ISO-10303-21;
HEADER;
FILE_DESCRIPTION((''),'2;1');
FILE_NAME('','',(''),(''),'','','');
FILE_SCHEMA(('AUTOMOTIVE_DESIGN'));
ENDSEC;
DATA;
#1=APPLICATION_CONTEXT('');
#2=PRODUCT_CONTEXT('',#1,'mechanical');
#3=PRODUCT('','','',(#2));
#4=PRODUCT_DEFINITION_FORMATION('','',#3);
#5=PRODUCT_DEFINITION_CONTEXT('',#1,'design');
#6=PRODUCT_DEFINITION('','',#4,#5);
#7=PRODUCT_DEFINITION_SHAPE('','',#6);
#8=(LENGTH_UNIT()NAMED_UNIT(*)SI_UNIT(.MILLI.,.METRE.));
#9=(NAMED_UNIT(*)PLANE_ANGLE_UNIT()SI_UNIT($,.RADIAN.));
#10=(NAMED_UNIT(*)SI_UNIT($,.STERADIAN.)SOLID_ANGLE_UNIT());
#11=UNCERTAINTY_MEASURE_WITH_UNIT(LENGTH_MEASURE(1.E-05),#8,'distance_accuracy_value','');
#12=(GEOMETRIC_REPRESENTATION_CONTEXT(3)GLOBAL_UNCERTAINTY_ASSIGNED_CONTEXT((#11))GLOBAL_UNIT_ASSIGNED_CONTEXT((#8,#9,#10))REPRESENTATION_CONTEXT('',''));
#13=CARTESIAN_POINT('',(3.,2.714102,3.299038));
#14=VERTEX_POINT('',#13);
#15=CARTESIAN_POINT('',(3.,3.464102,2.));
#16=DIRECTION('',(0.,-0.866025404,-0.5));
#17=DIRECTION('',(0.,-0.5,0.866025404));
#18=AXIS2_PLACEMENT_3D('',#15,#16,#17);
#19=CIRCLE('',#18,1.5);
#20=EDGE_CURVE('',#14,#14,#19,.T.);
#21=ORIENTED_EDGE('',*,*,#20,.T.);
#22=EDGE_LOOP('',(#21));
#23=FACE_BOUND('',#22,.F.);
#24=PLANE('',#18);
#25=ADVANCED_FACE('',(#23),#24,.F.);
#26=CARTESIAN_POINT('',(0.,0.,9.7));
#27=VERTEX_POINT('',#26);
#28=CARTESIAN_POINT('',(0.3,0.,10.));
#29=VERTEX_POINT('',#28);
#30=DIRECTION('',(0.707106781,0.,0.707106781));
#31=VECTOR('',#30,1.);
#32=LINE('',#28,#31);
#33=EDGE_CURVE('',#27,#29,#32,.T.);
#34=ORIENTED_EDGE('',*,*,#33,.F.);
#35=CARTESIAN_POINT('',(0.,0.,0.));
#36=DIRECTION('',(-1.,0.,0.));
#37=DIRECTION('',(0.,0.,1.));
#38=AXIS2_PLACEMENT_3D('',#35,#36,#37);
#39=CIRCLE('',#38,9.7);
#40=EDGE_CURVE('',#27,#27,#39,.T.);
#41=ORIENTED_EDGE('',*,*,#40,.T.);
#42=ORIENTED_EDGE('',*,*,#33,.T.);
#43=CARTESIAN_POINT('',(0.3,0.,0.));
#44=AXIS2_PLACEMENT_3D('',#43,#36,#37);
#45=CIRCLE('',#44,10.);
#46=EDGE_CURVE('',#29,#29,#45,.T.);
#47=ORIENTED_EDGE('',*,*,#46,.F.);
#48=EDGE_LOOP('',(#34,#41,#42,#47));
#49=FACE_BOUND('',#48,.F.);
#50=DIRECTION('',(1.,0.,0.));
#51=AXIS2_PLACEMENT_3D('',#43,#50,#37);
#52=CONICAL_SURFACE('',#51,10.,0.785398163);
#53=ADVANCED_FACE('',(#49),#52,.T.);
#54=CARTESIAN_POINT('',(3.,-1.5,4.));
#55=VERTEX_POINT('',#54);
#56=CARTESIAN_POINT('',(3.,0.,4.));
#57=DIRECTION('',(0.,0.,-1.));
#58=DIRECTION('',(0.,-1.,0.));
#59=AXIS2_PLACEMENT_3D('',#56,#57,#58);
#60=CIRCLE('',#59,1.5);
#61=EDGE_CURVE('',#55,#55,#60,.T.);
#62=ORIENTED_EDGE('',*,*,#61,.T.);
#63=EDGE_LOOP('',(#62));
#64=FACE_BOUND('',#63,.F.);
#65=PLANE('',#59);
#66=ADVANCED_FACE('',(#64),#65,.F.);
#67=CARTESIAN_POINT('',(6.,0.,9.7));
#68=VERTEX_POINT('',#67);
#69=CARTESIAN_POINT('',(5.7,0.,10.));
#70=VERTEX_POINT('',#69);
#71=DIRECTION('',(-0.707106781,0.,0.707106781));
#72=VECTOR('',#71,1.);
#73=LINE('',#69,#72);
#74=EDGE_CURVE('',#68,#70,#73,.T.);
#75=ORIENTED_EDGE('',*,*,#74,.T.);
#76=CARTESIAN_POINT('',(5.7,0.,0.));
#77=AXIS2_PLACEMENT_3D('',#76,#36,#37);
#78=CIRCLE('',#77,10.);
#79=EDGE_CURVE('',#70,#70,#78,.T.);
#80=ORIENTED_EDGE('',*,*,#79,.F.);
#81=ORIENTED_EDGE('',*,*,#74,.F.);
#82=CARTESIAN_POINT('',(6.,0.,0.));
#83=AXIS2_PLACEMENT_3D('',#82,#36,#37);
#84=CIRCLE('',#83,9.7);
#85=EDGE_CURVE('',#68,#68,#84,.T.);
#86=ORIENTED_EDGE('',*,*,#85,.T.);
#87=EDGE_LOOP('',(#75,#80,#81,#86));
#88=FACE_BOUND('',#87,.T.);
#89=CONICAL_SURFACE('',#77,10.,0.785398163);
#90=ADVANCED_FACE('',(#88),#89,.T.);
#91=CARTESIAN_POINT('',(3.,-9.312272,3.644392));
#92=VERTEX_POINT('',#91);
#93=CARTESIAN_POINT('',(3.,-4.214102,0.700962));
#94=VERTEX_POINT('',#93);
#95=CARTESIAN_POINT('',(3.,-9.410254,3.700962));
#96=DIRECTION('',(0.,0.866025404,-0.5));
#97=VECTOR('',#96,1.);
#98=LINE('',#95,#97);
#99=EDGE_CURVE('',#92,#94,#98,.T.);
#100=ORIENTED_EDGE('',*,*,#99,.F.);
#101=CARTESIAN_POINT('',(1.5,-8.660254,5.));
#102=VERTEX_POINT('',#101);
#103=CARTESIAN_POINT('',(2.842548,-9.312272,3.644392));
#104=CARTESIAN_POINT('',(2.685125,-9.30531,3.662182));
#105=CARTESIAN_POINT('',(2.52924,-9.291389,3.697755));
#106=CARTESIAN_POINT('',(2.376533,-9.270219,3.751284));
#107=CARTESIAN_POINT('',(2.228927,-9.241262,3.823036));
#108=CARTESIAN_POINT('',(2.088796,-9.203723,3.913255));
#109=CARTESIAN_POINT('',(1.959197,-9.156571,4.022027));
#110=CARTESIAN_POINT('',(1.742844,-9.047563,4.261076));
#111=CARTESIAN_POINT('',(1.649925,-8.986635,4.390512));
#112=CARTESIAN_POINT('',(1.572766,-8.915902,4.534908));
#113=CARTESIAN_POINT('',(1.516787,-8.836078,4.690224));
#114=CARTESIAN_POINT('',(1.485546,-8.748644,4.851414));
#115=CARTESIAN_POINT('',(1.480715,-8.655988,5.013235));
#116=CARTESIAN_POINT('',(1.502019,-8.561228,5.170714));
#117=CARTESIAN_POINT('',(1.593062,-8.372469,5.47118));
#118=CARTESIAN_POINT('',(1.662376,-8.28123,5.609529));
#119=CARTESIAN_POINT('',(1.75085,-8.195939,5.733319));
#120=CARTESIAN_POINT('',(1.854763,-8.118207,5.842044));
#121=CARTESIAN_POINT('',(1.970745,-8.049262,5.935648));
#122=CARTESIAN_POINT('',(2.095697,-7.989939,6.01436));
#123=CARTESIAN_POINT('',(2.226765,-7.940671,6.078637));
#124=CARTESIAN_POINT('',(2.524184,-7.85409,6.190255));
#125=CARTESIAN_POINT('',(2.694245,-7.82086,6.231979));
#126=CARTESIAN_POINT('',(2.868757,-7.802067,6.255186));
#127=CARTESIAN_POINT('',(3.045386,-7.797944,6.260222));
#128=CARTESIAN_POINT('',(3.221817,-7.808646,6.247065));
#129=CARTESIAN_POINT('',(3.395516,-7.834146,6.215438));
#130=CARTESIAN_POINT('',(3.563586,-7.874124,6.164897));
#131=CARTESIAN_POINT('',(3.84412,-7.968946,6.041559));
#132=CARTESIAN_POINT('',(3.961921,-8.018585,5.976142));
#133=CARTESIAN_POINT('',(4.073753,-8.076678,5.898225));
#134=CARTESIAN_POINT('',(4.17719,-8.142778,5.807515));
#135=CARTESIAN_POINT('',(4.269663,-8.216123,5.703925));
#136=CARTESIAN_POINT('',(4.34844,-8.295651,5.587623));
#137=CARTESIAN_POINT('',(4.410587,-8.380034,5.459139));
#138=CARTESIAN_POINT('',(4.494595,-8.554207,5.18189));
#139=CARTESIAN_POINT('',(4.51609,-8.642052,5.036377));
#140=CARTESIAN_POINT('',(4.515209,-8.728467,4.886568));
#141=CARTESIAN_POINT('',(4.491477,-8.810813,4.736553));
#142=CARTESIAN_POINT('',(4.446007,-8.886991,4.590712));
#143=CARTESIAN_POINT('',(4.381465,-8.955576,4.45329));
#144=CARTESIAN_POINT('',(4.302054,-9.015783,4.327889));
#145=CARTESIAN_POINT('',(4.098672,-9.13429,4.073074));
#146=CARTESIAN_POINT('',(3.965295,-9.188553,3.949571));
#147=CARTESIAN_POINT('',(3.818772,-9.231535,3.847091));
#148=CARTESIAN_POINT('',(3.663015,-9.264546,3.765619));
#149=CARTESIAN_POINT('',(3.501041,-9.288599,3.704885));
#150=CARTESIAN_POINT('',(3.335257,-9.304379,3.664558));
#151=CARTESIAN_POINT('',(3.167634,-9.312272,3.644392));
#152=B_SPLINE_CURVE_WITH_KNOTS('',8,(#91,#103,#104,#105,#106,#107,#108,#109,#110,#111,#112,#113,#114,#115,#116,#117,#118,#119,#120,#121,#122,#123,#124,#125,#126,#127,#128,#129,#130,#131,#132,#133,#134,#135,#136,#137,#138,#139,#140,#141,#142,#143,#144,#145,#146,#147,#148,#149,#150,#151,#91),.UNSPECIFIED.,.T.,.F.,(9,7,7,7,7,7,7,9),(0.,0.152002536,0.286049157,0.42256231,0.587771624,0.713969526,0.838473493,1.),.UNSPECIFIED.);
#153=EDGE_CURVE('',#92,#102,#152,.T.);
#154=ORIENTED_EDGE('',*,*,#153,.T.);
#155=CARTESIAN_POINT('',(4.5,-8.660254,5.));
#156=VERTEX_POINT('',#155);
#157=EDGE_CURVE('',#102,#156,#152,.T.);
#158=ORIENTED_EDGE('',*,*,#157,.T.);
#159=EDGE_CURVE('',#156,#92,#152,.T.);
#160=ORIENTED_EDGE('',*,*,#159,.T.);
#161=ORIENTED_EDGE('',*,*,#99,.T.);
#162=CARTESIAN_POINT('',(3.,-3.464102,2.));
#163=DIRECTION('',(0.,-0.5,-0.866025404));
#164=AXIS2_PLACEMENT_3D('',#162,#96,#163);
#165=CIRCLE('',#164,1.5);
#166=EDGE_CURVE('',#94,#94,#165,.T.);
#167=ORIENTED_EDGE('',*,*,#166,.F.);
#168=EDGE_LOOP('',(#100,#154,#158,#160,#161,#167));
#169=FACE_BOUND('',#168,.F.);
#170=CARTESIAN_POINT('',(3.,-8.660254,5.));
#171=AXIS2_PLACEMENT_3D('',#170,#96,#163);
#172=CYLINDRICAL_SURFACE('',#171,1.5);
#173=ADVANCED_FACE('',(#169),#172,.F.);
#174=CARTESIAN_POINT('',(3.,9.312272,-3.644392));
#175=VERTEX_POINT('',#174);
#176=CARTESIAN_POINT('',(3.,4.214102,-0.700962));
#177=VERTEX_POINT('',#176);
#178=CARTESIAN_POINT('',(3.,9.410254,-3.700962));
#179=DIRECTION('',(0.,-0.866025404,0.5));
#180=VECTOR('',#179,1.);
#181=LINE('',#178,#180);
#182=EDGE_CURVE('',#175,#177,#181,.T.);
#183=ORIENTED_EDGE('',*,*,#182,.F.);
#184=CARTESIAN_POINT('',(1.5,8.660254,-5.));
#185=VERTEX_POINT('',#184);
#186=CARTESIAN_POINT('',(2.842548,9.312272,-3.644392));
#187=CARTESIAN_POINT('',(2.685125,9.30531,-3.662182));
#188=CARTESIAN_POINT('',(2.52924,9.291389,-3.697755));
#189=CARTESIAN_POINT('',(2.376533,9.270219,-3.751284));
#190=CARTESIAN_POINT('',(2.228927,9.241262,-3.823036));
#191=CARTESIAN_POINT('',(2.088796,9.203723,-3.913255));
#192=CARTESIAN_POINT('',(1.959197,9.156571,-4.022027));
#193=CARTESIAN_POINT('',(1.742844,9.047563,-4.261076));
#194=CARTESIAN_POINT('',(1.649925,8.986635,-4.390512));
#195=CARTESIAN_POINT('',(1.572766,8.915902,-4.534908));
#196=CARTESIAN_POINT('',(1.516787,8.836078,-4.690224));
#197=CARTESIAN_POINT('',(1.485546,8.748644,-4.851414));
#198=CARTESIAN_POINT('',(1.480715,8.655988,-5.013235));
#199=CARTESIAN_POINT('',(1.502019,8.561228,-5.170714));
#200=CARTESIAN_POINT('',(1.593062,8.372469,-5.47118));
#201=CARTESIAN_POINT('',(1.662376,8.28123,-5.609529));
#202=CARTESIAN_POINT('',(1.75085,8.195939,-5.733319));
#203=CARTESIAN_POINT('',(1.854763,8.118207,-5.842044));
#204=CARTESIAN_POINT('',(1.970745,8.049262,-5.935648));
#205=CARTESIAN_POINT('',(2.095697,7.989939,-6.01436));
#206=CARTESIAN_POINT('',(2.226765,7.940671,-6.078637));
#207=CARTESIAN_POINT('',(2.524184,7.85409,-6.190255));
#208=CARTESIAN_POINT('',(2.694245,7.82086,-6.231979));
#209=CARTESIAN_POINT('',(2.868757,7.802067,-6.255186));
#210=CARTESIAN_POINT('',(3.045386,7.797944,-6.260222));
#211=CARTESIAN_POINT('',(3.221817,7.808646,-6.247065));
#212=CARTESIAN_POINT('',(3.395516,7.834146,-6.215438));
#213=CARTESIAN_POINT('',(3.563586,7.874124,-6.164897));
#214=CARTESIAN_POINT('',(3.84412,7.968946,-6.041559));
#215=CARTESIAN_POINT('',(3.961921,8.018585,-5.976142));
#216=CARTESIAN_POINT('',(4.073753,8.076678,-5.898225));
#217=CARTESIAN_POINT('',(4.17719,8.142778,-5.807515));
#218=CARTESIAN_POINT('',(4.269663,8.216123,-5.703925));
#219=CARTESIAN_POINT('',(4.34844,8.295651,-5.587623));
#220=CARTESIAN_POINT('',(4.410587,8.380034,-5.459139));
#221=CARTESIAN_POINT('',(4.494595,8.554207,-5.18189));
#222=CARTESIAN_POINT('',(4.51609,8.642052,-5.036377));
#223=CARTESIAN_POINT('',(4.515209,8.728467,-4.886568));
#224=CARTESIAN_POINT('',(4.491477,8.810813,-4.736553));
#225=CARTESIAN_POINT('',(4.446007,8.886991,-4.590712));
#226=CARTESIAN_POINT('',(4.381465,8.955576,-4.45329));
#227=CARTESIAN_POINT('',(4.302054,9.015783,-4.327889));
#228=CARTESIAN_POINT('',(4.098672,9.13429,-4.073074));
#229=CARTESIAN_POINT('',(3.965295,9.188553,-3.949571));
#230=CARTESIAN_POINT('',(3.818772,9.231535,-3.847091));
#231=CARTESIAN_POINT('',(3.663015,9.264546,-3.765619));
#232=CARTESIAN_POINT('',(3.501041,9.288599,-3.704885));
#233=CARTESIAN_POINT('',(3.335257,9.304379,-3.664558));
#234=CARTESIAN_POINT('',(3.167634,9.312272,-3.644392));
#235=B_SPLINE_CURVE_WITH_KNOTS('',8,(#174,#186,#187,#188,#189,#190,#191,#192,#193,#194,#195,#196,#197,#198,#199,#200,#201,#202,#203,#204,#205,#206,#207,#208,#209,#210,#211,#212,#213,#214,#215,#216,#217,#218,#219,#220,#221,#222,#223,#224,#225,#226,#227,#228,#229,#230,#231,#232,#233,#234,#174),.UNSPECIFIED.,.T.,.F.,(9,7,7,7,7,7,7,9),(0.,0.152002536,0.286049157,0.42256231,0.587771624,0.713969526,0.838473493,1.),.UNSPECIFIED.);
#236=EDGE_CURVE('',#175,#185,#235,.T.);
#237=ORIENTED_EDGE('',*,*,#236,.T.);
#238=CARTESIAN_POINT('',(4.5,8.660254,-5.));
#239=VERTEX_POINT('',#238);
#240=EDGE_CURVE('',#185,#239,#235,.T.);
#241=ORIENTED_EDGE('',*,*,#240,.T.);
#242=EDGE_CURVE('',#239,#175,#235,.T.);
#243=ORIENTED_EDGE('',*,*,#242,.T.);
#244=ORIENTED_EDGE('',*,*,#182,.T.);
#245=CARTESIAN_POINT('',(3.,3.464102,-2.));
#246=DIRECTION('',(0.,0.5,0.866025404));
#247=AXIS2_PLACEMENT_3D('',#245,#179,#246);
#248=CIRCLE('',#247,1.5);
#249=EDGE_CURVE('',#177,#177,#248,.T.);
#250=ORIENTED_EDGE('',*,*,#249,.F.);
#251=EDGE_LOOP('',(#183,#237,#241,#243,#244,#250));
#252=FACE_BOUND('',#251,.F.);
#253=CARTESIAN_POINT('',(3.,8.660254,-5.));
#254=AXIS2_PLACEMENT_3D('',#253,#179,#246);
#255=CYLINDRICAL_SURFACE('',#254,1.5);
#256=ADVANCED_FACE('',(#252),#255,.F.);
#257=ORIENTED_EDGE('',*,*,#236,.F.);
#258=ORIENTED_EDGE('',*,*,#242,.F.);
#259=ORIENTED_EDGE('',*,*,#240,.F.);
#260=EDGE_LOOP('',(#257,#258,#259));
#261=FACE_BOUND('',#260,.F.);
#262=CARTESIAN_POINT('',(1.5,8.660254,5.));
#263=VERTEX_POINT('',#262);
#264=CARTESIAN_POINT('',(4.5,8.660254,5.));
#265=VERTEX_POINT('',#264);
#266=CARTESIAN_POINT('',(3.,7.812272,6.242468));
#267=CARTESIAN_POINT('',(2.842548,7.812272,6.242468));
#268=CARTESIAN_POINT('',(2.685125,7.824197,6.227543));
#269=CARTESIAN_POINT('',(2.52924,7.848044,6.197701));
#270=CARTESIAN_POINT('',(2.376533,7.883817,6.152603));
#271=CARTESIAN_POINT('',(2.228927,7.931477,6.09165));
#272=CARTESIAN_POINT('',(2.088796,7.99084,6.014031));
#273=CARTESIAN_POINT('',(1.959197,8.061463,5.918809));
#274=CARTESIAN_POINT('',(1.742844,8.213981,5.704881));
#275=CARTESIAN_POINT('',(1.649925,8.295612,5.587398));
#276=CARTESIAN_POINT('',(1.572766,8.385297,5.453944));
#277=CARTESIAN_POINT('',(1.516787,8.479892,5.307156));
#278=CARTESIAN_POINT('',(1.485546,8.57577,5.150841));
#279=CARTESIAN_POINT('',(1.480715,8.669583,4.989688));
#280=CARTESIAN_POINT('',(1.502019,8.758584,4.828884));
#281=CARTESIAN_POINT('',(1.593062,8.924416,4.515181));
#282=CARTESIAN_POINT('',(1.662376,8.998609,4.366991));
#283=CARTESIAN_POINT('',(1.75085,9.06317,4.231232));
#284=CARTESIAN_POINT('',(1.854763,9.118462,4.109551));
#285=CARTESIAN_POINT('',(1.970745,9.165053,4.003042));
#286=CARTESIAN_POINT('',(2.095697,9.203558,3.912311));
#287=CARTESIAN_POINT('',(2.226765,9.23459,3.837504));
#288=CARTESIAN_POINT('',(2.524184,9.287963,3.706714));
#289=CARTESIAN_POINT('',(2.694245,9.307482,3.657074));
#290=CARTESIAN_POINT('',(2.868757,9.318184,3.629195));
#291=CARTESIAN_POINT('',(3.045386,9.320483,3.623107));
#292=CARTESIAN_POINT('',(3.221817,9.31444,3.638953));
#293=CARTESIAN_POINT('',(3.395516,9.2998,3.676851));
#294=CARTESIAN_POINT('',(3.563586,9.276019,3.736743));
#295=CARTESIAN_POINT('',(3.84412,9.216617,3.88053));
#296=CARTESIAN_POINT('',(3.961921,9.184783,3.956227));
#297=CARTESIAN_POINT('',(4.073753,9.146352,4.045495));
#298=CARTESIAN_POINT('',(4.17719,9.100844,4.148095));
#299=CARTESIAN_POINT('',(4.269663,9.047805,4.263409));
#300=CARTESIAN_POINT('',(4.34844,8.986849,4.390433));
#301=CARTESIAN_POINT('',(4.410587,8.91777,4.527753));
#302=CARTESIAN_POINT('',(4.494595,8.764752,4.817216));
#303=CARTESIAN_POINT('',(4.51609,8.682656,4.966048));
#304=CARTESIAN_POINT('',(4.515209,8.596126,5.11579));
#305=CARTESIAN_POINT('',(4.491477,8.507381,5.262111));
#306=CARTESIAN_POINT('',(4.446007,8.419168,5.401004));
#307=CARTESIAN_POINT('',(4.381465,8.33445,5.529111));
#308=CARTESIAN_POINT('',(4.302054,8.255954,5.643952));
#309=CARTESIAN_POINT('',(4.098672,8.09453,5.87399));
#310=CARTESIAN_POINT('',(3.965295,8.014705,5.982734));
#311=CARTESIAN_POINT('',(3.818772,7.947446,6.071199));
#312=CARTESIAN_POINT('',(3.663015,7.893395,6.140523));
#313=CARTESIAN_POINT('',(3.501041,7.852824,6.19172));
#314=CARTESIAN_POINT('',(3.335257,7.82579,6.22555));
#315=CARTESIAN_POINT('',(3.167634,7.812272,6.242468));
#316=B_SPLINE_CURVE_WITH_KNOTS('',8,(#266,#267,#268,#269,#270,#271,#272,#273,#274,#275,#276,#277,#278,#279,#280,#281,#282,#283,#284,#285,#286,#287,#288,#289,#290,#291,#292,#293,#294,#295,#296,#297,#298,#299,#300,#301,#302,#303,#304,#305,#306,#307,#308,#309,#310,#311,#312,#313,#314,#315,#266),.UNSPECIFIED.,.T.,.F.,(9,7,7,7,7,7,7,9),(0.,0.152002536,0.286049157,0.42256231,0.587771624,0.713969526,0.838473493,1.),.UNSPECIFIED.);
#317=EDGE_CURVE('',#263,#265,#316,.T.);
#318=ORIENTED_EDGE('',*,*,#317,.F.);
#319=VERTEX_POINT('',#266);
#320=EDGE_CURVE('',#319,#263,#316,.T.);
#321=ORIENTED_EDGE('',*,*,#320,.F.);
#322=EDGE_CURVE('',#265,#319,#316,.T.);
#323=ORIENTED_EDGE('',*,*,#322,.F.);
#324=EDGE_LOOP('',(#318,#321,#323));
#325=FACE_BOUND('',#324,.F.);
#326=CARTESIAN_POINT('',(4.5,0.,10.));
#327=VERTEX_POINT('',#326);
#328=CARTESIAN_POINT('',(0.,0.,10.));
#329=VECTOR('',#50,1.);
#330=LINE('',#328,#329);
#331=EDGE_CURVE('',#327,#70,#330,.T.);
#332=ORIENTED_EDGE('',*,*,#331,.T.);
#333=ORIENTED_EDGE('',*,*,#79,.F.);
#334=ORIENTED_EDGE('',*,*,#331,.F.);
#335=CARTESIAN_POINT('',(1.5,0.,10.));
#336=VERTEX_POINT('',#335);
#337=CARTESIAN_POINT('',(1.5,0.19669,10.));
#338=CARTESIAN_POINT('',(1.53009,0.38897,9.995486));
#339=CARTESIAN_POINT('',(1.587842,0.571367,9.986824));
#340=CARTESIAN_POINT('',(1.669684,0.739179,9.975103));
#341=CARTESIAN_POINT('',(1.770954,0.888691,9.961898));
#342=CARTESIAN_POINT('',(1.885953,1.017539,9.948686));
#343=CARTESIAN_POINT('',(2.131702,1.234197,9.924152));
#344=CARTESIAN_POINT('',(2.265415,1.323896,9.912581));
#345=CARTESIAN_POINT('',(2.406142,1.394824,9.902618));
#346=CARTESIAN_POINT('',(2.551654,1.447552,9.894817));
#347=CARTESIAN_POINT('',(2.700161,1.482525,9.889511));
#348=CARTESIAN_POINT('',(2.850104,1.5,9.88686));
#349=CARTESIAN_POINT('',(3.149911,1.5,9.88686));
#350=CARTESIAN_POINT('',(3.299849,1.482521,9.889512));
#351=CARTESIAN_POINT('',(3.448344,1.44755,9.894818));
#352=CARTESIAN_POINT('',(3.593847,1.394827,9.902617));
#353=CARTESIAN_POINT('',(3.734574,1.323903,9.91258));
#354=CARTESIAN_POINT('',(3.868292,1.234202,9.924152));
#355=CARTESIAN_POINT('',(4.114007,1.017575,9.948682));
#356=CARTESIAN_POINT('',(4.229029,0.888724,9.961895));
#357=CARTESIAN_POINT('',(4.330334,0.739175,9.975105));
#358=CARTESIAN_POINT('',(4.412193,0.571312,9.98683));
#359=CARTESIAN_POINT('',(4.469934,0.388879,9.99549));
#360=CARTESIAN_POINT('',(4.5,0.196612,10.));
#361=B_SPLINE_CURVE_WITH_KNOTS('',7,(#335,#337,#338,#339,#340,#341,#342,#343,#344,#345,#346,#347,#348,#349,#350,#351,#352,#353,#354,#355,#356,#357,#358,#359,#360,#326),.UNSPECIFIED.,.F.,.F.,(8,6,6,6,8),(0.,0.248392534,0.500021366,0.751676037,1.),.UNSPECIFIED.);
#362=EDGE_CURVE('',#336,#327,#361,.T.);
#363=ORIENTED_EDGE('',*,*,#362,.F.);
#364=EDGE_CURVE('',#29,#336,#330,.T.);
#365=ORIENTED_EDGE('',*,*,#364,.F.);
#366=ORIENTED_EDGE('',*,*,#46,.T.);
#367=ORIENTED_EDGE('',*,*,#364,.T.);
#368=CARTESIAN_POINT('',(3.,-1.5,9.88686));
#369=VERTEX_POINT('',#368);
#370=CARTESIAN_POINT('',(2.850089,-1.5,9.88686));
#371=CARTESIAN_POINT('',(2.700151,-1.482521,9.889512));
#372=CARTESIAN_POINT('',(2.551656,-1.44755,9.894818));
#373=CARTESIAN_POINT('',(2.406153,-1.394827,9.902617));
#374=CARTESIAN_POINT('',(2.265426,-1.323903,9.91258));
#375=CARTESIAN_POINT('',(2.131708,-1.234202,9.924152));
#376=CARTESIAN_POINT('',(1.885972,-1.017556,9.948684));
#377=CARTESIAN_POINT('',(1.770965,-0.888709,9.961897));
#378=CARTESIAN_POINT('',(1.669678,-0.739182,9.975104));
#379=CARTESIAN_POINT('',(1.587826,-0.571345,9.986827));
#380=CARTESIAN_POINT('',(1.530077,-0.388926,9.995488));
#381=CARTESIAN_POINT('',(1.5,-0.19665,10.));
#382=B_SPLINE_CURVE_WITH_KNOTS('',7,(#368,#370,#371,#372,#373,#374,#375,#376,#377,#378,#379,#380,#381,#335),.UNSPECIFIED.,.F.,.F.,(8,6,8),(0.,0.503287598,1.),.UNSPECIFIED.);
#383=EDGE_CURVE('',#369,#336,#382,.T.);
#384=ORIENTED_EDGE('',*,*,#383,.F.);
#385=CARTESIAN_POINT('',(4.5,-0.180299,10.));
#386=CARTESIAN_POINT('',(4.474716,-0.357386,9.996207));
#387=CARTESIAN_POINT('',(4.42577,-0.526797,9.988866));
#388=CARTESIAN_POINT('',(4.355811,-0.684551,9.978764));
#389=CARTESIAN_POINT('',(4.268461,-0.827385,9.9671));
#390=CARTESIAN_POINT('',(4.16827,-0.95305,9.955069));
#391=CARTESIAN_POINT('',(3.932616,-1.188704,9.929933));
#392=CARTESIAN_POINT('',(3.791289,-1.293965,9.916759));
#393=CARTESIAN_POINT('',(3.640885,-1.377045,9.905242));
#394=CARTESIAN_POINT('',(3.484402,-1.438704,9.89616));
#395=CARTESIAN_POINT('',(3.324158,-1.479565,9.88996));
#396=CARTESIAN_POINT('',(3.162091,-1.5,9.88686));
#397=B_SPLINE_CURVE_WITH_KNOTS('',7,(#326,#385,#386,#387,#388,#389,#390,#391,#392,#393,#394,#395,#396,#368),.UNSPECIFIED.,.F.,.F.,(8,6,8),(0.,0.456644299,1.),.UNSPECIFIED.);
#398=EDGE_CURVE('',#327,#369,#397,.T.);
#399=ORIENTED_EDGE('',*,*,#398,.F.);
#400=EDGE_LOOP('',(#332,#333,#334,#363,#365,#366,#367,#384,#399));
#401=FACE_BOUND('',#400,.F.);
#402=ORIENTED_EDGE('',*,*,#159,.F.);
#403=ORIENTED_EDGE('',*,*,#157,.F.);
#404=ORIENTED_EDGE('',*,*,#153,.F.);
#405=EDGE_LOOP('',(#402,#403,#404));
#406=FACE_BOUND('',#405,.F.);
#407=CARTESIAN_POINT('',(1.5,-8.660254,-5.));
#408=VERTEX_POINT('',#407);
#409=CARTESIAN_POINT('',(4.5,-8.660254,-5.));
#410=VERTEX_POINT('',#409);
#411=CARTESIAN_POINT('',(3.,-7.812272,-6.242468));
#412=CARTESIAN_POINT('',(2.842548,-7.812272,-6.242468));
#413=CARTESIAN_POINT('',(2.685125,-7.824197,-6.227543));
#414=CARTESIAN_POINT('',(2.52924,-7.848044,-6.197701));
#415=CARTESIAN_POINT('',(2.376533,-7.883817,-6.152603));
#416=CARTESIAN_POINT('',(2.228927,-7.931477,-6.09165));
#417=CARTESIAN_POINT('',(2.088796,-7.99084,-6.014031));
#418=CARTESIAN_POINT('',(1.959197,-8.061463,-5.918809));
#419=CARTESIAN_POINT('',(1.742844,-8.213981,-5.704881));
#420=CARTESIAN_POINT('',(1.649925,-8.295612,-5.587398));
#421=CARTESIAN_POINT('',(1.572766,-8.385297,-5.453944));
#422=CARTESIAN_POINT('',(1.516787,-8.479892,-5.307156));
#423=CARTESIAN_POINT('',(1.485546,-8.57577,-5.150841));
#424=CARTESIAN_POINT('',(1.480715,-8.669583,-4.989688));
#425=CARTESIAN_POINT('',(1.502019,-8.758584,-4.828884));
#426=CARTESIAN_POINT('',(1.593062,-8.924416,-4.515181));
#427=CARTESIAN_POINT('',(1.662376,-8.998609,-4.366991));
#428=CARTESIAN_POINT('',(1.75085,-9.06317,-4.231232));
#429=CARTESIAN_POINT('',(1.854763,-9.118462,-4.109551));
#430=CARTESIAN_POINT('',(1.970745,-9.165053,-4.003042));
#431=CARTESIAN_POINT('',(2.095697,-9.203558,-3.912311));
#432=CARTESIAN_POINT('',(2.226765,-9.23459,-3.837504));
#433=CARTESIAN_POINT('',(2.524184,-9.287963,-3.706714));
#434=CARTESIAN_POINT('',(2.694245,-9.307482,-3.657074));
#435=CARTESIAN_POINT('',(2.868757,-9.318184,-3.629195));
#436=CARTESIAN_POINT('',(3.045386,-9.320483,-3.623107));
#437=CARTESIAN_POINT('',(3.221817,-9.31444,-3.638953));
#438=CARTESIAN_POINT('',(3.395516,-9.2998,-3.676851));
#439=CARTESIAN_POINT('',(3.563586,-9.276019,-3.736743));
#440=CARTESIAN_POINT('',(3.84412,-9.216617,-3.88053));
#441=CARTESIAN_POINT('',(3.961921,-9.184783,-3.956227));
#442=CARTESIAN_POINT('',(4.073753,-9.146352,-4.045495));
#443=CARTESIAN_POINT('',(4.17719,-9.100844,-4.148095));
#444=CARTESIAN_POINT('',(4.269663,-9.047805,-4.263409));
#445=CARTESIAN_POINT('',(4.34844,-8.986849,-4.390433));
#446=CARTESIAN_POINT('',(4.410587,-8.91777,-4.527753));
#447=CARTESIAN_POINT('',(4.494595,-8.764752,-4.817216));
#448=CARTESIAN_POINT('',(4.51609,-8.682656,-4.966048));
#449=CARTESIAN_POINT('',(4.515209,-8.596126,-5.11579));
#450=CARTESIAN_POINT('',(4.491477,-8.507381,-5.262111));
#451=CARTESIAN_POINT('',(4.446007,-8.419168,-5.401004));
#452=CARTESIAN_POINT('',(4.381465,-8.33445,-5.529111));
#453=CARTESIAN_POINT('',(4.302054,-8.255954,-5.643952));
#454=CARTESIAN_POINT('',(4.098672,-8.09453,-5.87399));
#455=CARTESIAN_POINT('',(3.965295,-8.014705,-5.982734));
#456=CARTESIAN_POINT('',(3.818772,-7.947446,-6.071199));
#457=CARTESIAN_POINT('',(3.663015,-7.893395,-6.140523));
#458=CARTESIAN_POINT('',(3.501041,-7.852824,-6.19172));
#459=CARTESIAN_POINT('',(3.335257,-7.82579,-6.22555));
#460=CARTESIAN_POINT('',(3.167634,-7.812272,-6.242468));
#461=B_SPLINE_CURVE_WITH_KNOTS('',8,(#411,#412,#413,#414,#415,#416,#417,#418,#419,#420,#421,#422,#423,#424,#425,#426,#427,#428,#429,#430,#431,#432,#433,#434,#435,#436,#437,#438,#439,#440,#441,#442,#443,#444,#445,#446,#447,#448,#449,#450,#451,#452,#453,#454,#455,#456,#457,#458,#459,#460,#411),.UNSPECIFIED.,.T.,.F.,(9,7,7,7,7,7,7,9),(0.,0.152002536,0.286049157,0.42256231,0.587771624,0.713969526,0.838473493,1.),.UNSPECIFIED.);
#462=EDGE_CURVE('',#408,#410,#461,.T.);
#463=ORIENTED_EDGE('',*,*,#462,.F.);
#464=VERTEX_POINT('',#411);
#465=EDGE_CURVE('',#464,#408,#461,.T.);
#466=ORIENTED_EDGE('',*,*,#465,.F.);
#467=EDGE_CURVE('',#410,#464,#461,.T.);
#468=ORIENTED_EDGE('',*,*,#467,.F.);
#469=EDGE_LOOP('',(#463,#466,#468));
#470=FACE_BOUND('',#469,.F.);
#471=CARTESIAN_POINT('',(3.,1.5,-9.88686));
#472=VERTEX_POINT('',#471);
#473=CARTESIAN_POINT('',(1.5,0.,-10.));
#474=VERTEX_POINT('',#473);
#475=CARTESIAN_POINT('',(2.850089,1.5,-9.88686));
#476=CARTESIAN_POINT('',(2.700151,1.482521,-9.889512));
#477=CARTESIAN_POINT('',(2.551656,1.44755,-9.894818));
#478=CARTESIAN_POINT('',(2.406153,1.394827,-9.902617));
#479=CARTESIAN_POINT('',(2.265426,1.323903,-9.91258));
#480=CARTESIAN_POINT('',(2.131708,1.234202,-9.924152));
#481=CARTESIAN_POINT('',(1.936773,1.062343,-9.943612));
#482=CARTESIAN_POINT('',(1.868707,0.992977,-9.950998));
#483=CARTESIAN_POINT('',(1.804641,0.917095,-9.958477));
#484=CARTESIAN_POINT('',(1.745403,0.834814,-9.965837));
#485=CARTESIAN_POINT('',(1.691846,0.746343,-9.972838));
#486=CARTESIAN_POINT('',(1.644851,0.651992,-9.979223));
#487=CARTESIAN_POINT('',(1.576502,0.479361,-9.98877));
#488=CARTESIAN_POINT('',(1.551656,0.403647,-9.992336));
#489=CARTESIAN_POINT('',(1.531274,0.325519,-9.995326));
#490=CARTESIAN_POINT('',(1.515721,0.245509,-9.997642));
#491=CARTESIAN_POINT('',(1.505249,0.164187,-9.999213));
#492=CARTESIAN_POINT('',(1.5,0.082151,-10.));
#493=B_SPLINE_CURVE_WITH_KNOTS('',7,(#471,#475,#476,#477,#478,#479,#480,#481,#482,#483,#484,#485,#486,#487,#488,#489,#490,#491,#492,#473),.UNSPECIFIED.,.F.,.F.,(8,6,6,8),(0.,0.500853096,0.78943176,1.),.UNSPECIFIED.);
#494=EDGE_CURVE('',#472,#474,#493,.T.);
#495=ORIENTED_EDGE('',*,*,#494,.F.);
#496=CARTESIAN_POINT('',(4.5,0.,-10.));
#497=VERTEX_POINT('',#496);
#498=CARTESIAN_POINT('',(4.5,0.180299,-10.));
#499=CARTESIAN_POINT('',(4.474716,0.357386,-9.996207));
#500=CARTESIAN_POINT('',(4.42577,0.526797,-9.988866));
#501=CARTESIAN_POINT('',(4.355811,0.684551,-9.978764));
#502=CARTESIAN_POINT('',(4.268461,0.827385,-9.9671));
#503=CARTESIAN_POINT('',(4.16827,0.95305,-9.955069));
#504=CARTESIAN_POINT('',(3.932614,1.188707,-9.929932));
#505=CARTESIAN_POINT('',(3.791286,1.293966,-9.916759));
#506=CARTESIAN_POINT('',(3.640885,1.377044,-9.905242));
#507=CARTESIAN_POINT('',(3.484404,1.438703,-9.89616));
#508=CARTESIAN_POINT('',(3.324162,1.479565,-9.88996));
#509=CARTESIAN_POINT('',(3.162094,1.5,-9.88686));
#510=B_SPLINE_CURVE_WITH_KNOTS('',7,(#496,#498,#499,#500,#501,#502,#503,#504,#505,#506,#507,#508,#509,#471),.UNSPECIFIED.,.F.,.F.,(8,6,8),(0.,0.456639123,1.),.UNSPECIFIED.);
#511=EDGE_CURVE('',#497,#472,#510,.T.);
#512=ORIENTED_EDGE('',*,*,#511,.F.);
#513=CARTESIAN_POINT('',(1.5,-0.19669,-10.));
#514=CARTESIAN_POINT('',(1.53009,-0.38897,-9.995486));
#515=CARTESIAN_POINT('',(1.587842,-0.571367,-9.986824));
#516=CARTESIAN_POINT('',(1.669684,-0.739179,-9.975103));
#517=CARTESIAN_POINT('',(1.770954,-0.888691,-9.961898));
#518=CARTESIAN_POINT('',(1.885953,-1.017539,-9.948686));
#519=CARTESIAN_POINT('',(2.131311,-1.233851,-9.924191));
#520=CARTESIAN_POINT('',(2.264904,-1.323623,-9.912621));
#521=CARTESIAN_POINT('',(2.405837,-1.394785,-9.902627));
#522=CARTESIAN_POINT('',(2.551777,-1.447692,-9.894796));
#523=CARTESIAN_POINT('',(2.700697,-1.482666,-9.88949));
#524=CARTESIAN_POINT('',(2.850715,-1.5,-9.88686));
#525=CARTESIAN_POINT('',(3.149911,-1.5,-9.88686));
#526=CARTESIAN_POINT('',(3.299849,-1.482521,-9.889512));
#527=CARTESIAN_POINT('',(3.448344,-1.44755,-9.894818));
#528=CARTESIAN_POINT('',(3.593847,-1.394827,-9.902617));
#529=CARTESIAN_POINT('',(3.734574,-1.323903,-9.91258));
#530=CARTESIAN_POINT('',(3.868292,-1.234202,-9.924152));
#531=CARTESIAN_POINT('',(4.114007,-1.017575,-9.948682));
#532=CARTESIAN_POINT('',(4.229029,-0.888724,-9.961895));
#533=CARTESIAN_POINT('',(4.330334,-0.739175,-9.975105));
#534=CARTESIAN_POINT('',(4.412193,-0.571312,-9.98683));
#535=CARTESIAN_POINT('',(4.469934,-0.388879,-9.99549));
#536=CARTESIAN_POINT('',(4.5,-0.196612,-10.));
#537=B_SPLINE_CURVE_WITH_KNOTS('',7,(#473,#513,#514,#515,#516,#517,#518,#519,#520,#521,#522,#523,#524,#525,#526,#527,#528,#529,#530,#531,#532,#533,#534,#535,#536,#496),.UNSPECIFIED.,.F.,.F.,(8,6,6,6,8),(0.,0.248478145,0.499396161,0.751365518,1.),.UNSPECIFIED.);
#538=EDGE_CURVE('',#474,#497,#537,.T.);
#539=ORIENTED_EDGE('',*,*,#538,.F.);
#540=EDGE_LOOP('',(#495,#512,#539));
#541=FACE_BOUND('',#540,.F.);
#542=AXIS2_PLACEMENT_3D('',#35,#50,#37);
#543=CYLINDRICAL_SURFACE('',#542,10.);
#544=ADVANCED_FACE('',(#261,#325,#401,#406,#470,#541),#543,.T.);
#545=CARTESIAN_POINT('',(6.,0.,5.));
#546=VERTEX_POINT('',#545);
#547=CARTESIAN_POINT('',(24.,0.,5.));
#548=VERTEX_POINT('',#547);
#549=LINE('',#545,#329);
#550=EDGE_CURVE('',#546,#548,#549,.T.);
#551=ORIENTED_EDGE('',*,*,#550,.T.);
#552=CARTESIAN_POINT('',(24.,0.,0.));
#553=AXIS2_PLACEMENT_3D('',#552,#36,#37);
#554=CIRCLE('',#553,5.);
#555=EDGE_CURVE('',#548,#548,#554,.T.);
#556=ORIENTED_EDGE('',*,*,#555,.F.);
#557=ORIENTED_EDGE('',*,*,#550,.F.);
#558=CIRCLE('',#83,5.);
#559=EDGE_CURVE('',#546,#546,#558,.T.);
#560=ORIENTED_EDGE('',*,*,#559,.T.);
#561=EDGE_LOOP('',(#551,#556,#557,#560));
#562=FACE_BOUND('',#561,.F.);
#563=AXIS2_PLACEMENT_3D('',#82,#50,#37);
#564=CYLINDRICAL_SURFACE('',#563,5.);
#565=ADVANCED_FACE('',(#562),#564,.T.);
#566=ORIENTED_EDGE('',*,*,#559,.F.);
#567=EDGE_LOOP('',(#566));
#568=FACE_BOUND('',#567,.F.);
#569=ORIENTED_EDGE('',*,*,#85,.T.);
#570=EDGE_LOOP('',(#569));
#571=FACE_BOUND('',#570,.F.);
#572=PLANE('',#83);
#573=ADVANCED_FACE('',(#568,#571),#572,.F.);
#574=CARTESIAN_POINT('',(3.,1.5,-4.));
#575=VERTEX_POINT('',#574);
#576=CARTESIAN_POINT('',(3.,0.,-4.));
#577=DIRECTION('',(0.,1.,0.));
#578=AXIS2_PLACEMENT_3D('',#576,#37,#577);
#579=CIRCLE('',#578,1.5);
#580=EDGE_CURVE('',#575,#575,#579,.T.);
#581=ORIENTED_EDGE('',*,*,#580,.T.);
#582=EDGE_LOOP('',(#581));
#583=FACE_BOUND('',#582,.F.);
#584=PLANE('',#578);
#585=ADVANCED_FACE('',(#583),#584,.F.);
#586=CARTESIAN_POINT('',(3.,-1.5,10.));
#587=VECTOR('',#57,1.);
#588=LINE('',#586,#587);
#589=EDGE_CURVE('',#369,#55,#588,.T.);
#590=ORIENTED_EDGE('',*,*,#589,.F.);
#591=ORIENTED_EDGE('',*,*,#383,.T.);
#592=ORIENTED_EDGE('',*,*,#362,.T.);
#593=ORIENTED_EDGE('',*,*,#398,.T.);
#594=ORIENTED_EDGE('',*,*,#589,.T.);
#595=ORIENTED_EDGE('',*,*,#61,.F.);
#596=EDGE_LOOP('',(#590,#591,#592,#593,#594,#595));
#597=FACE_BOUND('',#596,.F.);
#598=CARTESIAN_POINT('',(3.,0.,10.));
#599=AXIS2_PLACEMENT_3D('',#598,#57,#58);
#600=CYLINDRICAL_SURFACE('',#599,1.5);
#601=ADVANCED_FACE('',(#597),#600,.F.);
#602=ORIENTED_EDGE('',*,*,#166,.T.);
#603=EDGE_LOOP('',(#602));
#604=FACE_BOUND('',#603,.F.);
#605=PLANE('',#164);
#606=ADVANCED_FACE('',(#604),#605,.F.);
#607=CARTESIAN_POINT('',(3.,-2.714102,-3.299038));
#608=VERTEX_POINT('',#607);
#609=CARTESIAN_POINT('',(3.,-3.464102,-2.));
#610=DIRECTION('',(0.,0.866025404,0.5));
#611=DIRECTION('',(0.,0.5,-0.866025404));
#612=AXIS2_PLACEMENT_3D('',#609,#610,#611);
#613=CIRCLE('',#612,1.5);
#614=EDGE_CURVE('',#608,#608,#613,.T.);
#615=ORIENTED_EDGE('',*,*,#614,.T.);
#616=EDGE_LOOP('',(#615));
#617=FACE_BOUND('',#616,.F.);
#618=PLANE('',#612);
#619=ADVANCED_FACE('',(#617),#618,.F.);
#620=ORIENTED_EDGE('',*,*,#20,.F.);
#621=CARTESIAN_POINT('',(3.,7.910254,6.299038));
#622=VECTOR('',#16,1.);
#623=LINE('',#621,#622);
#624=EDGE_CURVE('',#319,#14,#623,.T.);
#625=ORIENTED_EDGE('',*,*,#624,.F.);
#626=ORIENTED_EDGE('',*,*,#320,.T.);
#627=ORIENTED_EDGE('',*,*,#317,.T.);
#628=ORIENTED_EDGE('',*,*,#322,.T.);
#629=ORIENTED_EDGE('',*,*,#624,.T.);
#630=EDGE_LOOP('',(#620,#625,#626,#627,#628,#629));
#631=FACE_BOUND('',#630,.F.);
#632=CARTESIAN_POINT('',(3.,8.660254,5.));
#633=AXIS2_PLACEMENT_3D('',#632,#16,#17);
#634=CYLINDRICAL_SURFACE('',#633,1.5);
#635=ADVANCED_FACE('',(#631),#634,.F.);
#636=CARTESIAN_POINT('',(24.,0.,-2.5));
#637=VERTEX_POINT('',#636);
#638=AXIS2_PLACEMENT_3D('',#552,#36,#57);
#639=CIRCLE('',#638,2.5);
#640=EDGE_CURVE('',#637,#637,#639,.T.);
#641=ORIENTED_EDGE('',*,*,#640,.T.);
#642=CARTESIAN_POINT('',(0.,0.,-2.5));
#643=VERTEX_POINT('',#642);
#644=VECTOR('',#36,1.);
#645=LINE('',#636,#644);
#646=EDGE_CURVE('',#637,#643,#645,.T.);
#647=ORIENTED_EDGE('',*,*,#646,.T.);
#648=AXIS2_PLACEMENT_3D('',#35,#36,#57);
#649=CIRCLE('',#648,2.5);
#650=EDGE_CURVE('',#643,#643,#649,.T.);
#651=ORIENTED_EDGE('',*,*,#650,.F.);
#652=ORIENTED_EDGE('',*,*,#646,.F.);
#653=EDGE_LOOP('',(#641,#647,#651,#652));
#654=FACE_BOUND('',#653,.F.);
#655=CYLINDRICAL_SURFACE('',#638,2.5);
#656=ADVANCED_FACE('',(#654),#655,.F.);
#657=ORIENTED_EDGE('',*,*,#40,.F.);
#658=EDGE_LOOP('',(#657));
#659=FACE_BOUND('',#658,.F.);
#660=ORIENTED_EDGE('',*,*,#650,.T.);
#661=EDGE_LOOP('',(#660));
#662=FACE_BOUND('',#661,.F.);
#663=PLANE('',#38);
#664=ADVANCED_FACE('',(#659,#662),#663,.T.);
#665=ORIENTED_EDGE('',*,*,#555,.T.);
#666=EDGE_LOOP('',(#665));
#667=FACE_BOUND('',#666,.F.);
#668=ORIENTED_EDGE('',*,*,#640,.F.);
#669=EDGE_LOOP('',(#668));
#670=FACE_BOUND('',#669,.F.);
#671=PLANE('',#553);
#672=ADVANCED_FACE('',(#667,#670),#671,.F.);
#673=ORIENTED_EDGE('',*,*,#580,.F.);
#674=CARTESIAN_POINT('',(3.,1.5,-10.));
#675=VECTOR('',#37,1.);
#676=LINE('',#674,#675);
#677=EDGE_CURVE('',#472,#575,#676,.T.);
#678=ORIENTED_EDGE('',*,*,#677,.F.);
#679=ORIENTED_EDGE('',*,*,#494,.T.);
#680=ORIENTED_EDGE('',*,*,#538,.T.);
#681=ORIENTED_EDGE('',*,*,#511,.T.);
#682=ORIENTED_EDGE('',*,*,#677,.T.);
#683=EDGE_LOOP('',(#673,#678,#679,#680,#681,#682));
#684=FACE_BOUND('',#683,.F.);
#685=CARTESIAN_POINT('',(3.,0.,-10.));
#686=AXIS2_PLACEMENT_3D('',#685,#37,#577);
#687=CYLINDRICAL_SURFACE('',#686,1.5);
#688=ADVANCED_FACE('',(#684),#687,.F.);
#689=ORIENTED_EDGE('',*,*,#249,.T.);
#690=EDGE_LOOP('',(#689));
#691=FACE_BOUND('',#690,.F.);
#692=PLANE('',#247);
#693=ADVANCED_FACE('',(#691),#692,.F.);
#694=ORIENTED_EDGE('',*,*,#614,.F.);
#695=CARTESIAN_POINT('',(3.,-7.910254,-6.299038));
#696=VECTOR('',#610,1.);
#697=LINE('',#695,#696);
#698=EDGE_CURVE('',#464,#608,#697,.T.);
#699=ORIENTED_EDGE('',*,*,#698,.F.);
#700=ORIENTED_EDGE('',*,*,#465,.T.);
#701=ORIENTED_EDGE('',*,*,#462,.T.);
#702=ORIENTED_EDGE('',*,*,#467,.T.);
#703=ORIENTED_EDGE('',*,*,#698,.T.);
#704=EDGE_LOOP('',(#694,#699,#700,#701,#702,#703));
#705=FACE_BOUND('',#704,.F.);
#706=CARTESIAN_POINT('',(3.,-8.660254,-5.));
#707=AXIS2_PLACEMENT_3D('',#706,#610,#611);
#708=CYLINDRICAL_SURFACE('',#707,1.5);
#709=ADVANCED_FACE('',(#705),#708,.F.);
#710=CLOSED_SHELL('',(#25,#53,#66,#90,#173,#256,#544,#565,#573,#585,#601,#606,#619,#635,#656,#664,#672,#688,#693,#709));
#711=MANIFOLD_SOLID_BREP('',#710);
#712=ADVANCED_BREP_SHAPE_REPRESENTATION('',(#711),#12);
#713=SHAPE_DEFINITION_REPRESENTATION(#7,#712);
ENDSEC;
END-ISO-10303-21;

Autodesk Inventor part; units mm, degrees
ref_plane "YZ Plane" through (0, 0, 0) normal (1, 0, 0) x (0, 1, 0)
ref_plane "XZ Plane" through (0, 0, 0) normal (0, 1, 0) x (-1, 0, 0)
sketch "Skizze1" plane through (0, 0, 0) normal (0, 1, 0) x (-1, 0, 0)
  line L0 (0, 0) -> (0, 10)
  line L1 (0, 10) -> (-6, 10)
  line L2 (-6, 10) -> (-6, 5)
  line L3 (-6, 5) -> (-24, 5)
  line L4 (-24, 5) -> (-24, 0)
  line L5 (-24, 0) -> (0, 0)
  dimension "d0" = 20
  dimension "d1" = 10
  dimension "d2" = 6
  dimension "d3" = 18
revolve "Umdrehung1" add sketch "Skizze1" angle 360 about axis through (24, 0, 0) along (-1, 0, 0)
sketch "Skizze2" plane through (24, 0, 0) normal (1, 0, 0) x (0, 0, -1)
  circle A0 centre (0, 0) radius 5 projected
hole "Bohrung1" at (24, 0, 0) direction (-1, 0, 0) diameter 5 depth 24
thread "Gewinde1" size "M10x1.5" class "6g" standard "ISO Metric profile" length 18
ref_plane "Arbeitsebene1" through (0, 0, 10) normal (0, 0, 1) x (1, 0, 0)
sketch "Skizze3" plane through (0, 0, 10) normal (0, 0, 1) x (1, 0, 0)
  line L0 (0, 10) -> (0, -10) projected
  point P0 (0, 0)
  point P1 (3, 0)
  point P2 (0, 0)
  dimension "d15" = 3
hole "Bohrung2" at (3, 0, 10) direction (0, 0, -1) diameter 3 depth 6
pattern_circular "Runde Anordnung1" count 6 over 360 about axis through (3, 0, 0) along (-1, 0, 0) of "Bohrung2"
chamfer "Fasen1" distance 0.3 angle 45 2 edges at (0, 0, -10) (6, 0, -10)
properties part number "1153"
